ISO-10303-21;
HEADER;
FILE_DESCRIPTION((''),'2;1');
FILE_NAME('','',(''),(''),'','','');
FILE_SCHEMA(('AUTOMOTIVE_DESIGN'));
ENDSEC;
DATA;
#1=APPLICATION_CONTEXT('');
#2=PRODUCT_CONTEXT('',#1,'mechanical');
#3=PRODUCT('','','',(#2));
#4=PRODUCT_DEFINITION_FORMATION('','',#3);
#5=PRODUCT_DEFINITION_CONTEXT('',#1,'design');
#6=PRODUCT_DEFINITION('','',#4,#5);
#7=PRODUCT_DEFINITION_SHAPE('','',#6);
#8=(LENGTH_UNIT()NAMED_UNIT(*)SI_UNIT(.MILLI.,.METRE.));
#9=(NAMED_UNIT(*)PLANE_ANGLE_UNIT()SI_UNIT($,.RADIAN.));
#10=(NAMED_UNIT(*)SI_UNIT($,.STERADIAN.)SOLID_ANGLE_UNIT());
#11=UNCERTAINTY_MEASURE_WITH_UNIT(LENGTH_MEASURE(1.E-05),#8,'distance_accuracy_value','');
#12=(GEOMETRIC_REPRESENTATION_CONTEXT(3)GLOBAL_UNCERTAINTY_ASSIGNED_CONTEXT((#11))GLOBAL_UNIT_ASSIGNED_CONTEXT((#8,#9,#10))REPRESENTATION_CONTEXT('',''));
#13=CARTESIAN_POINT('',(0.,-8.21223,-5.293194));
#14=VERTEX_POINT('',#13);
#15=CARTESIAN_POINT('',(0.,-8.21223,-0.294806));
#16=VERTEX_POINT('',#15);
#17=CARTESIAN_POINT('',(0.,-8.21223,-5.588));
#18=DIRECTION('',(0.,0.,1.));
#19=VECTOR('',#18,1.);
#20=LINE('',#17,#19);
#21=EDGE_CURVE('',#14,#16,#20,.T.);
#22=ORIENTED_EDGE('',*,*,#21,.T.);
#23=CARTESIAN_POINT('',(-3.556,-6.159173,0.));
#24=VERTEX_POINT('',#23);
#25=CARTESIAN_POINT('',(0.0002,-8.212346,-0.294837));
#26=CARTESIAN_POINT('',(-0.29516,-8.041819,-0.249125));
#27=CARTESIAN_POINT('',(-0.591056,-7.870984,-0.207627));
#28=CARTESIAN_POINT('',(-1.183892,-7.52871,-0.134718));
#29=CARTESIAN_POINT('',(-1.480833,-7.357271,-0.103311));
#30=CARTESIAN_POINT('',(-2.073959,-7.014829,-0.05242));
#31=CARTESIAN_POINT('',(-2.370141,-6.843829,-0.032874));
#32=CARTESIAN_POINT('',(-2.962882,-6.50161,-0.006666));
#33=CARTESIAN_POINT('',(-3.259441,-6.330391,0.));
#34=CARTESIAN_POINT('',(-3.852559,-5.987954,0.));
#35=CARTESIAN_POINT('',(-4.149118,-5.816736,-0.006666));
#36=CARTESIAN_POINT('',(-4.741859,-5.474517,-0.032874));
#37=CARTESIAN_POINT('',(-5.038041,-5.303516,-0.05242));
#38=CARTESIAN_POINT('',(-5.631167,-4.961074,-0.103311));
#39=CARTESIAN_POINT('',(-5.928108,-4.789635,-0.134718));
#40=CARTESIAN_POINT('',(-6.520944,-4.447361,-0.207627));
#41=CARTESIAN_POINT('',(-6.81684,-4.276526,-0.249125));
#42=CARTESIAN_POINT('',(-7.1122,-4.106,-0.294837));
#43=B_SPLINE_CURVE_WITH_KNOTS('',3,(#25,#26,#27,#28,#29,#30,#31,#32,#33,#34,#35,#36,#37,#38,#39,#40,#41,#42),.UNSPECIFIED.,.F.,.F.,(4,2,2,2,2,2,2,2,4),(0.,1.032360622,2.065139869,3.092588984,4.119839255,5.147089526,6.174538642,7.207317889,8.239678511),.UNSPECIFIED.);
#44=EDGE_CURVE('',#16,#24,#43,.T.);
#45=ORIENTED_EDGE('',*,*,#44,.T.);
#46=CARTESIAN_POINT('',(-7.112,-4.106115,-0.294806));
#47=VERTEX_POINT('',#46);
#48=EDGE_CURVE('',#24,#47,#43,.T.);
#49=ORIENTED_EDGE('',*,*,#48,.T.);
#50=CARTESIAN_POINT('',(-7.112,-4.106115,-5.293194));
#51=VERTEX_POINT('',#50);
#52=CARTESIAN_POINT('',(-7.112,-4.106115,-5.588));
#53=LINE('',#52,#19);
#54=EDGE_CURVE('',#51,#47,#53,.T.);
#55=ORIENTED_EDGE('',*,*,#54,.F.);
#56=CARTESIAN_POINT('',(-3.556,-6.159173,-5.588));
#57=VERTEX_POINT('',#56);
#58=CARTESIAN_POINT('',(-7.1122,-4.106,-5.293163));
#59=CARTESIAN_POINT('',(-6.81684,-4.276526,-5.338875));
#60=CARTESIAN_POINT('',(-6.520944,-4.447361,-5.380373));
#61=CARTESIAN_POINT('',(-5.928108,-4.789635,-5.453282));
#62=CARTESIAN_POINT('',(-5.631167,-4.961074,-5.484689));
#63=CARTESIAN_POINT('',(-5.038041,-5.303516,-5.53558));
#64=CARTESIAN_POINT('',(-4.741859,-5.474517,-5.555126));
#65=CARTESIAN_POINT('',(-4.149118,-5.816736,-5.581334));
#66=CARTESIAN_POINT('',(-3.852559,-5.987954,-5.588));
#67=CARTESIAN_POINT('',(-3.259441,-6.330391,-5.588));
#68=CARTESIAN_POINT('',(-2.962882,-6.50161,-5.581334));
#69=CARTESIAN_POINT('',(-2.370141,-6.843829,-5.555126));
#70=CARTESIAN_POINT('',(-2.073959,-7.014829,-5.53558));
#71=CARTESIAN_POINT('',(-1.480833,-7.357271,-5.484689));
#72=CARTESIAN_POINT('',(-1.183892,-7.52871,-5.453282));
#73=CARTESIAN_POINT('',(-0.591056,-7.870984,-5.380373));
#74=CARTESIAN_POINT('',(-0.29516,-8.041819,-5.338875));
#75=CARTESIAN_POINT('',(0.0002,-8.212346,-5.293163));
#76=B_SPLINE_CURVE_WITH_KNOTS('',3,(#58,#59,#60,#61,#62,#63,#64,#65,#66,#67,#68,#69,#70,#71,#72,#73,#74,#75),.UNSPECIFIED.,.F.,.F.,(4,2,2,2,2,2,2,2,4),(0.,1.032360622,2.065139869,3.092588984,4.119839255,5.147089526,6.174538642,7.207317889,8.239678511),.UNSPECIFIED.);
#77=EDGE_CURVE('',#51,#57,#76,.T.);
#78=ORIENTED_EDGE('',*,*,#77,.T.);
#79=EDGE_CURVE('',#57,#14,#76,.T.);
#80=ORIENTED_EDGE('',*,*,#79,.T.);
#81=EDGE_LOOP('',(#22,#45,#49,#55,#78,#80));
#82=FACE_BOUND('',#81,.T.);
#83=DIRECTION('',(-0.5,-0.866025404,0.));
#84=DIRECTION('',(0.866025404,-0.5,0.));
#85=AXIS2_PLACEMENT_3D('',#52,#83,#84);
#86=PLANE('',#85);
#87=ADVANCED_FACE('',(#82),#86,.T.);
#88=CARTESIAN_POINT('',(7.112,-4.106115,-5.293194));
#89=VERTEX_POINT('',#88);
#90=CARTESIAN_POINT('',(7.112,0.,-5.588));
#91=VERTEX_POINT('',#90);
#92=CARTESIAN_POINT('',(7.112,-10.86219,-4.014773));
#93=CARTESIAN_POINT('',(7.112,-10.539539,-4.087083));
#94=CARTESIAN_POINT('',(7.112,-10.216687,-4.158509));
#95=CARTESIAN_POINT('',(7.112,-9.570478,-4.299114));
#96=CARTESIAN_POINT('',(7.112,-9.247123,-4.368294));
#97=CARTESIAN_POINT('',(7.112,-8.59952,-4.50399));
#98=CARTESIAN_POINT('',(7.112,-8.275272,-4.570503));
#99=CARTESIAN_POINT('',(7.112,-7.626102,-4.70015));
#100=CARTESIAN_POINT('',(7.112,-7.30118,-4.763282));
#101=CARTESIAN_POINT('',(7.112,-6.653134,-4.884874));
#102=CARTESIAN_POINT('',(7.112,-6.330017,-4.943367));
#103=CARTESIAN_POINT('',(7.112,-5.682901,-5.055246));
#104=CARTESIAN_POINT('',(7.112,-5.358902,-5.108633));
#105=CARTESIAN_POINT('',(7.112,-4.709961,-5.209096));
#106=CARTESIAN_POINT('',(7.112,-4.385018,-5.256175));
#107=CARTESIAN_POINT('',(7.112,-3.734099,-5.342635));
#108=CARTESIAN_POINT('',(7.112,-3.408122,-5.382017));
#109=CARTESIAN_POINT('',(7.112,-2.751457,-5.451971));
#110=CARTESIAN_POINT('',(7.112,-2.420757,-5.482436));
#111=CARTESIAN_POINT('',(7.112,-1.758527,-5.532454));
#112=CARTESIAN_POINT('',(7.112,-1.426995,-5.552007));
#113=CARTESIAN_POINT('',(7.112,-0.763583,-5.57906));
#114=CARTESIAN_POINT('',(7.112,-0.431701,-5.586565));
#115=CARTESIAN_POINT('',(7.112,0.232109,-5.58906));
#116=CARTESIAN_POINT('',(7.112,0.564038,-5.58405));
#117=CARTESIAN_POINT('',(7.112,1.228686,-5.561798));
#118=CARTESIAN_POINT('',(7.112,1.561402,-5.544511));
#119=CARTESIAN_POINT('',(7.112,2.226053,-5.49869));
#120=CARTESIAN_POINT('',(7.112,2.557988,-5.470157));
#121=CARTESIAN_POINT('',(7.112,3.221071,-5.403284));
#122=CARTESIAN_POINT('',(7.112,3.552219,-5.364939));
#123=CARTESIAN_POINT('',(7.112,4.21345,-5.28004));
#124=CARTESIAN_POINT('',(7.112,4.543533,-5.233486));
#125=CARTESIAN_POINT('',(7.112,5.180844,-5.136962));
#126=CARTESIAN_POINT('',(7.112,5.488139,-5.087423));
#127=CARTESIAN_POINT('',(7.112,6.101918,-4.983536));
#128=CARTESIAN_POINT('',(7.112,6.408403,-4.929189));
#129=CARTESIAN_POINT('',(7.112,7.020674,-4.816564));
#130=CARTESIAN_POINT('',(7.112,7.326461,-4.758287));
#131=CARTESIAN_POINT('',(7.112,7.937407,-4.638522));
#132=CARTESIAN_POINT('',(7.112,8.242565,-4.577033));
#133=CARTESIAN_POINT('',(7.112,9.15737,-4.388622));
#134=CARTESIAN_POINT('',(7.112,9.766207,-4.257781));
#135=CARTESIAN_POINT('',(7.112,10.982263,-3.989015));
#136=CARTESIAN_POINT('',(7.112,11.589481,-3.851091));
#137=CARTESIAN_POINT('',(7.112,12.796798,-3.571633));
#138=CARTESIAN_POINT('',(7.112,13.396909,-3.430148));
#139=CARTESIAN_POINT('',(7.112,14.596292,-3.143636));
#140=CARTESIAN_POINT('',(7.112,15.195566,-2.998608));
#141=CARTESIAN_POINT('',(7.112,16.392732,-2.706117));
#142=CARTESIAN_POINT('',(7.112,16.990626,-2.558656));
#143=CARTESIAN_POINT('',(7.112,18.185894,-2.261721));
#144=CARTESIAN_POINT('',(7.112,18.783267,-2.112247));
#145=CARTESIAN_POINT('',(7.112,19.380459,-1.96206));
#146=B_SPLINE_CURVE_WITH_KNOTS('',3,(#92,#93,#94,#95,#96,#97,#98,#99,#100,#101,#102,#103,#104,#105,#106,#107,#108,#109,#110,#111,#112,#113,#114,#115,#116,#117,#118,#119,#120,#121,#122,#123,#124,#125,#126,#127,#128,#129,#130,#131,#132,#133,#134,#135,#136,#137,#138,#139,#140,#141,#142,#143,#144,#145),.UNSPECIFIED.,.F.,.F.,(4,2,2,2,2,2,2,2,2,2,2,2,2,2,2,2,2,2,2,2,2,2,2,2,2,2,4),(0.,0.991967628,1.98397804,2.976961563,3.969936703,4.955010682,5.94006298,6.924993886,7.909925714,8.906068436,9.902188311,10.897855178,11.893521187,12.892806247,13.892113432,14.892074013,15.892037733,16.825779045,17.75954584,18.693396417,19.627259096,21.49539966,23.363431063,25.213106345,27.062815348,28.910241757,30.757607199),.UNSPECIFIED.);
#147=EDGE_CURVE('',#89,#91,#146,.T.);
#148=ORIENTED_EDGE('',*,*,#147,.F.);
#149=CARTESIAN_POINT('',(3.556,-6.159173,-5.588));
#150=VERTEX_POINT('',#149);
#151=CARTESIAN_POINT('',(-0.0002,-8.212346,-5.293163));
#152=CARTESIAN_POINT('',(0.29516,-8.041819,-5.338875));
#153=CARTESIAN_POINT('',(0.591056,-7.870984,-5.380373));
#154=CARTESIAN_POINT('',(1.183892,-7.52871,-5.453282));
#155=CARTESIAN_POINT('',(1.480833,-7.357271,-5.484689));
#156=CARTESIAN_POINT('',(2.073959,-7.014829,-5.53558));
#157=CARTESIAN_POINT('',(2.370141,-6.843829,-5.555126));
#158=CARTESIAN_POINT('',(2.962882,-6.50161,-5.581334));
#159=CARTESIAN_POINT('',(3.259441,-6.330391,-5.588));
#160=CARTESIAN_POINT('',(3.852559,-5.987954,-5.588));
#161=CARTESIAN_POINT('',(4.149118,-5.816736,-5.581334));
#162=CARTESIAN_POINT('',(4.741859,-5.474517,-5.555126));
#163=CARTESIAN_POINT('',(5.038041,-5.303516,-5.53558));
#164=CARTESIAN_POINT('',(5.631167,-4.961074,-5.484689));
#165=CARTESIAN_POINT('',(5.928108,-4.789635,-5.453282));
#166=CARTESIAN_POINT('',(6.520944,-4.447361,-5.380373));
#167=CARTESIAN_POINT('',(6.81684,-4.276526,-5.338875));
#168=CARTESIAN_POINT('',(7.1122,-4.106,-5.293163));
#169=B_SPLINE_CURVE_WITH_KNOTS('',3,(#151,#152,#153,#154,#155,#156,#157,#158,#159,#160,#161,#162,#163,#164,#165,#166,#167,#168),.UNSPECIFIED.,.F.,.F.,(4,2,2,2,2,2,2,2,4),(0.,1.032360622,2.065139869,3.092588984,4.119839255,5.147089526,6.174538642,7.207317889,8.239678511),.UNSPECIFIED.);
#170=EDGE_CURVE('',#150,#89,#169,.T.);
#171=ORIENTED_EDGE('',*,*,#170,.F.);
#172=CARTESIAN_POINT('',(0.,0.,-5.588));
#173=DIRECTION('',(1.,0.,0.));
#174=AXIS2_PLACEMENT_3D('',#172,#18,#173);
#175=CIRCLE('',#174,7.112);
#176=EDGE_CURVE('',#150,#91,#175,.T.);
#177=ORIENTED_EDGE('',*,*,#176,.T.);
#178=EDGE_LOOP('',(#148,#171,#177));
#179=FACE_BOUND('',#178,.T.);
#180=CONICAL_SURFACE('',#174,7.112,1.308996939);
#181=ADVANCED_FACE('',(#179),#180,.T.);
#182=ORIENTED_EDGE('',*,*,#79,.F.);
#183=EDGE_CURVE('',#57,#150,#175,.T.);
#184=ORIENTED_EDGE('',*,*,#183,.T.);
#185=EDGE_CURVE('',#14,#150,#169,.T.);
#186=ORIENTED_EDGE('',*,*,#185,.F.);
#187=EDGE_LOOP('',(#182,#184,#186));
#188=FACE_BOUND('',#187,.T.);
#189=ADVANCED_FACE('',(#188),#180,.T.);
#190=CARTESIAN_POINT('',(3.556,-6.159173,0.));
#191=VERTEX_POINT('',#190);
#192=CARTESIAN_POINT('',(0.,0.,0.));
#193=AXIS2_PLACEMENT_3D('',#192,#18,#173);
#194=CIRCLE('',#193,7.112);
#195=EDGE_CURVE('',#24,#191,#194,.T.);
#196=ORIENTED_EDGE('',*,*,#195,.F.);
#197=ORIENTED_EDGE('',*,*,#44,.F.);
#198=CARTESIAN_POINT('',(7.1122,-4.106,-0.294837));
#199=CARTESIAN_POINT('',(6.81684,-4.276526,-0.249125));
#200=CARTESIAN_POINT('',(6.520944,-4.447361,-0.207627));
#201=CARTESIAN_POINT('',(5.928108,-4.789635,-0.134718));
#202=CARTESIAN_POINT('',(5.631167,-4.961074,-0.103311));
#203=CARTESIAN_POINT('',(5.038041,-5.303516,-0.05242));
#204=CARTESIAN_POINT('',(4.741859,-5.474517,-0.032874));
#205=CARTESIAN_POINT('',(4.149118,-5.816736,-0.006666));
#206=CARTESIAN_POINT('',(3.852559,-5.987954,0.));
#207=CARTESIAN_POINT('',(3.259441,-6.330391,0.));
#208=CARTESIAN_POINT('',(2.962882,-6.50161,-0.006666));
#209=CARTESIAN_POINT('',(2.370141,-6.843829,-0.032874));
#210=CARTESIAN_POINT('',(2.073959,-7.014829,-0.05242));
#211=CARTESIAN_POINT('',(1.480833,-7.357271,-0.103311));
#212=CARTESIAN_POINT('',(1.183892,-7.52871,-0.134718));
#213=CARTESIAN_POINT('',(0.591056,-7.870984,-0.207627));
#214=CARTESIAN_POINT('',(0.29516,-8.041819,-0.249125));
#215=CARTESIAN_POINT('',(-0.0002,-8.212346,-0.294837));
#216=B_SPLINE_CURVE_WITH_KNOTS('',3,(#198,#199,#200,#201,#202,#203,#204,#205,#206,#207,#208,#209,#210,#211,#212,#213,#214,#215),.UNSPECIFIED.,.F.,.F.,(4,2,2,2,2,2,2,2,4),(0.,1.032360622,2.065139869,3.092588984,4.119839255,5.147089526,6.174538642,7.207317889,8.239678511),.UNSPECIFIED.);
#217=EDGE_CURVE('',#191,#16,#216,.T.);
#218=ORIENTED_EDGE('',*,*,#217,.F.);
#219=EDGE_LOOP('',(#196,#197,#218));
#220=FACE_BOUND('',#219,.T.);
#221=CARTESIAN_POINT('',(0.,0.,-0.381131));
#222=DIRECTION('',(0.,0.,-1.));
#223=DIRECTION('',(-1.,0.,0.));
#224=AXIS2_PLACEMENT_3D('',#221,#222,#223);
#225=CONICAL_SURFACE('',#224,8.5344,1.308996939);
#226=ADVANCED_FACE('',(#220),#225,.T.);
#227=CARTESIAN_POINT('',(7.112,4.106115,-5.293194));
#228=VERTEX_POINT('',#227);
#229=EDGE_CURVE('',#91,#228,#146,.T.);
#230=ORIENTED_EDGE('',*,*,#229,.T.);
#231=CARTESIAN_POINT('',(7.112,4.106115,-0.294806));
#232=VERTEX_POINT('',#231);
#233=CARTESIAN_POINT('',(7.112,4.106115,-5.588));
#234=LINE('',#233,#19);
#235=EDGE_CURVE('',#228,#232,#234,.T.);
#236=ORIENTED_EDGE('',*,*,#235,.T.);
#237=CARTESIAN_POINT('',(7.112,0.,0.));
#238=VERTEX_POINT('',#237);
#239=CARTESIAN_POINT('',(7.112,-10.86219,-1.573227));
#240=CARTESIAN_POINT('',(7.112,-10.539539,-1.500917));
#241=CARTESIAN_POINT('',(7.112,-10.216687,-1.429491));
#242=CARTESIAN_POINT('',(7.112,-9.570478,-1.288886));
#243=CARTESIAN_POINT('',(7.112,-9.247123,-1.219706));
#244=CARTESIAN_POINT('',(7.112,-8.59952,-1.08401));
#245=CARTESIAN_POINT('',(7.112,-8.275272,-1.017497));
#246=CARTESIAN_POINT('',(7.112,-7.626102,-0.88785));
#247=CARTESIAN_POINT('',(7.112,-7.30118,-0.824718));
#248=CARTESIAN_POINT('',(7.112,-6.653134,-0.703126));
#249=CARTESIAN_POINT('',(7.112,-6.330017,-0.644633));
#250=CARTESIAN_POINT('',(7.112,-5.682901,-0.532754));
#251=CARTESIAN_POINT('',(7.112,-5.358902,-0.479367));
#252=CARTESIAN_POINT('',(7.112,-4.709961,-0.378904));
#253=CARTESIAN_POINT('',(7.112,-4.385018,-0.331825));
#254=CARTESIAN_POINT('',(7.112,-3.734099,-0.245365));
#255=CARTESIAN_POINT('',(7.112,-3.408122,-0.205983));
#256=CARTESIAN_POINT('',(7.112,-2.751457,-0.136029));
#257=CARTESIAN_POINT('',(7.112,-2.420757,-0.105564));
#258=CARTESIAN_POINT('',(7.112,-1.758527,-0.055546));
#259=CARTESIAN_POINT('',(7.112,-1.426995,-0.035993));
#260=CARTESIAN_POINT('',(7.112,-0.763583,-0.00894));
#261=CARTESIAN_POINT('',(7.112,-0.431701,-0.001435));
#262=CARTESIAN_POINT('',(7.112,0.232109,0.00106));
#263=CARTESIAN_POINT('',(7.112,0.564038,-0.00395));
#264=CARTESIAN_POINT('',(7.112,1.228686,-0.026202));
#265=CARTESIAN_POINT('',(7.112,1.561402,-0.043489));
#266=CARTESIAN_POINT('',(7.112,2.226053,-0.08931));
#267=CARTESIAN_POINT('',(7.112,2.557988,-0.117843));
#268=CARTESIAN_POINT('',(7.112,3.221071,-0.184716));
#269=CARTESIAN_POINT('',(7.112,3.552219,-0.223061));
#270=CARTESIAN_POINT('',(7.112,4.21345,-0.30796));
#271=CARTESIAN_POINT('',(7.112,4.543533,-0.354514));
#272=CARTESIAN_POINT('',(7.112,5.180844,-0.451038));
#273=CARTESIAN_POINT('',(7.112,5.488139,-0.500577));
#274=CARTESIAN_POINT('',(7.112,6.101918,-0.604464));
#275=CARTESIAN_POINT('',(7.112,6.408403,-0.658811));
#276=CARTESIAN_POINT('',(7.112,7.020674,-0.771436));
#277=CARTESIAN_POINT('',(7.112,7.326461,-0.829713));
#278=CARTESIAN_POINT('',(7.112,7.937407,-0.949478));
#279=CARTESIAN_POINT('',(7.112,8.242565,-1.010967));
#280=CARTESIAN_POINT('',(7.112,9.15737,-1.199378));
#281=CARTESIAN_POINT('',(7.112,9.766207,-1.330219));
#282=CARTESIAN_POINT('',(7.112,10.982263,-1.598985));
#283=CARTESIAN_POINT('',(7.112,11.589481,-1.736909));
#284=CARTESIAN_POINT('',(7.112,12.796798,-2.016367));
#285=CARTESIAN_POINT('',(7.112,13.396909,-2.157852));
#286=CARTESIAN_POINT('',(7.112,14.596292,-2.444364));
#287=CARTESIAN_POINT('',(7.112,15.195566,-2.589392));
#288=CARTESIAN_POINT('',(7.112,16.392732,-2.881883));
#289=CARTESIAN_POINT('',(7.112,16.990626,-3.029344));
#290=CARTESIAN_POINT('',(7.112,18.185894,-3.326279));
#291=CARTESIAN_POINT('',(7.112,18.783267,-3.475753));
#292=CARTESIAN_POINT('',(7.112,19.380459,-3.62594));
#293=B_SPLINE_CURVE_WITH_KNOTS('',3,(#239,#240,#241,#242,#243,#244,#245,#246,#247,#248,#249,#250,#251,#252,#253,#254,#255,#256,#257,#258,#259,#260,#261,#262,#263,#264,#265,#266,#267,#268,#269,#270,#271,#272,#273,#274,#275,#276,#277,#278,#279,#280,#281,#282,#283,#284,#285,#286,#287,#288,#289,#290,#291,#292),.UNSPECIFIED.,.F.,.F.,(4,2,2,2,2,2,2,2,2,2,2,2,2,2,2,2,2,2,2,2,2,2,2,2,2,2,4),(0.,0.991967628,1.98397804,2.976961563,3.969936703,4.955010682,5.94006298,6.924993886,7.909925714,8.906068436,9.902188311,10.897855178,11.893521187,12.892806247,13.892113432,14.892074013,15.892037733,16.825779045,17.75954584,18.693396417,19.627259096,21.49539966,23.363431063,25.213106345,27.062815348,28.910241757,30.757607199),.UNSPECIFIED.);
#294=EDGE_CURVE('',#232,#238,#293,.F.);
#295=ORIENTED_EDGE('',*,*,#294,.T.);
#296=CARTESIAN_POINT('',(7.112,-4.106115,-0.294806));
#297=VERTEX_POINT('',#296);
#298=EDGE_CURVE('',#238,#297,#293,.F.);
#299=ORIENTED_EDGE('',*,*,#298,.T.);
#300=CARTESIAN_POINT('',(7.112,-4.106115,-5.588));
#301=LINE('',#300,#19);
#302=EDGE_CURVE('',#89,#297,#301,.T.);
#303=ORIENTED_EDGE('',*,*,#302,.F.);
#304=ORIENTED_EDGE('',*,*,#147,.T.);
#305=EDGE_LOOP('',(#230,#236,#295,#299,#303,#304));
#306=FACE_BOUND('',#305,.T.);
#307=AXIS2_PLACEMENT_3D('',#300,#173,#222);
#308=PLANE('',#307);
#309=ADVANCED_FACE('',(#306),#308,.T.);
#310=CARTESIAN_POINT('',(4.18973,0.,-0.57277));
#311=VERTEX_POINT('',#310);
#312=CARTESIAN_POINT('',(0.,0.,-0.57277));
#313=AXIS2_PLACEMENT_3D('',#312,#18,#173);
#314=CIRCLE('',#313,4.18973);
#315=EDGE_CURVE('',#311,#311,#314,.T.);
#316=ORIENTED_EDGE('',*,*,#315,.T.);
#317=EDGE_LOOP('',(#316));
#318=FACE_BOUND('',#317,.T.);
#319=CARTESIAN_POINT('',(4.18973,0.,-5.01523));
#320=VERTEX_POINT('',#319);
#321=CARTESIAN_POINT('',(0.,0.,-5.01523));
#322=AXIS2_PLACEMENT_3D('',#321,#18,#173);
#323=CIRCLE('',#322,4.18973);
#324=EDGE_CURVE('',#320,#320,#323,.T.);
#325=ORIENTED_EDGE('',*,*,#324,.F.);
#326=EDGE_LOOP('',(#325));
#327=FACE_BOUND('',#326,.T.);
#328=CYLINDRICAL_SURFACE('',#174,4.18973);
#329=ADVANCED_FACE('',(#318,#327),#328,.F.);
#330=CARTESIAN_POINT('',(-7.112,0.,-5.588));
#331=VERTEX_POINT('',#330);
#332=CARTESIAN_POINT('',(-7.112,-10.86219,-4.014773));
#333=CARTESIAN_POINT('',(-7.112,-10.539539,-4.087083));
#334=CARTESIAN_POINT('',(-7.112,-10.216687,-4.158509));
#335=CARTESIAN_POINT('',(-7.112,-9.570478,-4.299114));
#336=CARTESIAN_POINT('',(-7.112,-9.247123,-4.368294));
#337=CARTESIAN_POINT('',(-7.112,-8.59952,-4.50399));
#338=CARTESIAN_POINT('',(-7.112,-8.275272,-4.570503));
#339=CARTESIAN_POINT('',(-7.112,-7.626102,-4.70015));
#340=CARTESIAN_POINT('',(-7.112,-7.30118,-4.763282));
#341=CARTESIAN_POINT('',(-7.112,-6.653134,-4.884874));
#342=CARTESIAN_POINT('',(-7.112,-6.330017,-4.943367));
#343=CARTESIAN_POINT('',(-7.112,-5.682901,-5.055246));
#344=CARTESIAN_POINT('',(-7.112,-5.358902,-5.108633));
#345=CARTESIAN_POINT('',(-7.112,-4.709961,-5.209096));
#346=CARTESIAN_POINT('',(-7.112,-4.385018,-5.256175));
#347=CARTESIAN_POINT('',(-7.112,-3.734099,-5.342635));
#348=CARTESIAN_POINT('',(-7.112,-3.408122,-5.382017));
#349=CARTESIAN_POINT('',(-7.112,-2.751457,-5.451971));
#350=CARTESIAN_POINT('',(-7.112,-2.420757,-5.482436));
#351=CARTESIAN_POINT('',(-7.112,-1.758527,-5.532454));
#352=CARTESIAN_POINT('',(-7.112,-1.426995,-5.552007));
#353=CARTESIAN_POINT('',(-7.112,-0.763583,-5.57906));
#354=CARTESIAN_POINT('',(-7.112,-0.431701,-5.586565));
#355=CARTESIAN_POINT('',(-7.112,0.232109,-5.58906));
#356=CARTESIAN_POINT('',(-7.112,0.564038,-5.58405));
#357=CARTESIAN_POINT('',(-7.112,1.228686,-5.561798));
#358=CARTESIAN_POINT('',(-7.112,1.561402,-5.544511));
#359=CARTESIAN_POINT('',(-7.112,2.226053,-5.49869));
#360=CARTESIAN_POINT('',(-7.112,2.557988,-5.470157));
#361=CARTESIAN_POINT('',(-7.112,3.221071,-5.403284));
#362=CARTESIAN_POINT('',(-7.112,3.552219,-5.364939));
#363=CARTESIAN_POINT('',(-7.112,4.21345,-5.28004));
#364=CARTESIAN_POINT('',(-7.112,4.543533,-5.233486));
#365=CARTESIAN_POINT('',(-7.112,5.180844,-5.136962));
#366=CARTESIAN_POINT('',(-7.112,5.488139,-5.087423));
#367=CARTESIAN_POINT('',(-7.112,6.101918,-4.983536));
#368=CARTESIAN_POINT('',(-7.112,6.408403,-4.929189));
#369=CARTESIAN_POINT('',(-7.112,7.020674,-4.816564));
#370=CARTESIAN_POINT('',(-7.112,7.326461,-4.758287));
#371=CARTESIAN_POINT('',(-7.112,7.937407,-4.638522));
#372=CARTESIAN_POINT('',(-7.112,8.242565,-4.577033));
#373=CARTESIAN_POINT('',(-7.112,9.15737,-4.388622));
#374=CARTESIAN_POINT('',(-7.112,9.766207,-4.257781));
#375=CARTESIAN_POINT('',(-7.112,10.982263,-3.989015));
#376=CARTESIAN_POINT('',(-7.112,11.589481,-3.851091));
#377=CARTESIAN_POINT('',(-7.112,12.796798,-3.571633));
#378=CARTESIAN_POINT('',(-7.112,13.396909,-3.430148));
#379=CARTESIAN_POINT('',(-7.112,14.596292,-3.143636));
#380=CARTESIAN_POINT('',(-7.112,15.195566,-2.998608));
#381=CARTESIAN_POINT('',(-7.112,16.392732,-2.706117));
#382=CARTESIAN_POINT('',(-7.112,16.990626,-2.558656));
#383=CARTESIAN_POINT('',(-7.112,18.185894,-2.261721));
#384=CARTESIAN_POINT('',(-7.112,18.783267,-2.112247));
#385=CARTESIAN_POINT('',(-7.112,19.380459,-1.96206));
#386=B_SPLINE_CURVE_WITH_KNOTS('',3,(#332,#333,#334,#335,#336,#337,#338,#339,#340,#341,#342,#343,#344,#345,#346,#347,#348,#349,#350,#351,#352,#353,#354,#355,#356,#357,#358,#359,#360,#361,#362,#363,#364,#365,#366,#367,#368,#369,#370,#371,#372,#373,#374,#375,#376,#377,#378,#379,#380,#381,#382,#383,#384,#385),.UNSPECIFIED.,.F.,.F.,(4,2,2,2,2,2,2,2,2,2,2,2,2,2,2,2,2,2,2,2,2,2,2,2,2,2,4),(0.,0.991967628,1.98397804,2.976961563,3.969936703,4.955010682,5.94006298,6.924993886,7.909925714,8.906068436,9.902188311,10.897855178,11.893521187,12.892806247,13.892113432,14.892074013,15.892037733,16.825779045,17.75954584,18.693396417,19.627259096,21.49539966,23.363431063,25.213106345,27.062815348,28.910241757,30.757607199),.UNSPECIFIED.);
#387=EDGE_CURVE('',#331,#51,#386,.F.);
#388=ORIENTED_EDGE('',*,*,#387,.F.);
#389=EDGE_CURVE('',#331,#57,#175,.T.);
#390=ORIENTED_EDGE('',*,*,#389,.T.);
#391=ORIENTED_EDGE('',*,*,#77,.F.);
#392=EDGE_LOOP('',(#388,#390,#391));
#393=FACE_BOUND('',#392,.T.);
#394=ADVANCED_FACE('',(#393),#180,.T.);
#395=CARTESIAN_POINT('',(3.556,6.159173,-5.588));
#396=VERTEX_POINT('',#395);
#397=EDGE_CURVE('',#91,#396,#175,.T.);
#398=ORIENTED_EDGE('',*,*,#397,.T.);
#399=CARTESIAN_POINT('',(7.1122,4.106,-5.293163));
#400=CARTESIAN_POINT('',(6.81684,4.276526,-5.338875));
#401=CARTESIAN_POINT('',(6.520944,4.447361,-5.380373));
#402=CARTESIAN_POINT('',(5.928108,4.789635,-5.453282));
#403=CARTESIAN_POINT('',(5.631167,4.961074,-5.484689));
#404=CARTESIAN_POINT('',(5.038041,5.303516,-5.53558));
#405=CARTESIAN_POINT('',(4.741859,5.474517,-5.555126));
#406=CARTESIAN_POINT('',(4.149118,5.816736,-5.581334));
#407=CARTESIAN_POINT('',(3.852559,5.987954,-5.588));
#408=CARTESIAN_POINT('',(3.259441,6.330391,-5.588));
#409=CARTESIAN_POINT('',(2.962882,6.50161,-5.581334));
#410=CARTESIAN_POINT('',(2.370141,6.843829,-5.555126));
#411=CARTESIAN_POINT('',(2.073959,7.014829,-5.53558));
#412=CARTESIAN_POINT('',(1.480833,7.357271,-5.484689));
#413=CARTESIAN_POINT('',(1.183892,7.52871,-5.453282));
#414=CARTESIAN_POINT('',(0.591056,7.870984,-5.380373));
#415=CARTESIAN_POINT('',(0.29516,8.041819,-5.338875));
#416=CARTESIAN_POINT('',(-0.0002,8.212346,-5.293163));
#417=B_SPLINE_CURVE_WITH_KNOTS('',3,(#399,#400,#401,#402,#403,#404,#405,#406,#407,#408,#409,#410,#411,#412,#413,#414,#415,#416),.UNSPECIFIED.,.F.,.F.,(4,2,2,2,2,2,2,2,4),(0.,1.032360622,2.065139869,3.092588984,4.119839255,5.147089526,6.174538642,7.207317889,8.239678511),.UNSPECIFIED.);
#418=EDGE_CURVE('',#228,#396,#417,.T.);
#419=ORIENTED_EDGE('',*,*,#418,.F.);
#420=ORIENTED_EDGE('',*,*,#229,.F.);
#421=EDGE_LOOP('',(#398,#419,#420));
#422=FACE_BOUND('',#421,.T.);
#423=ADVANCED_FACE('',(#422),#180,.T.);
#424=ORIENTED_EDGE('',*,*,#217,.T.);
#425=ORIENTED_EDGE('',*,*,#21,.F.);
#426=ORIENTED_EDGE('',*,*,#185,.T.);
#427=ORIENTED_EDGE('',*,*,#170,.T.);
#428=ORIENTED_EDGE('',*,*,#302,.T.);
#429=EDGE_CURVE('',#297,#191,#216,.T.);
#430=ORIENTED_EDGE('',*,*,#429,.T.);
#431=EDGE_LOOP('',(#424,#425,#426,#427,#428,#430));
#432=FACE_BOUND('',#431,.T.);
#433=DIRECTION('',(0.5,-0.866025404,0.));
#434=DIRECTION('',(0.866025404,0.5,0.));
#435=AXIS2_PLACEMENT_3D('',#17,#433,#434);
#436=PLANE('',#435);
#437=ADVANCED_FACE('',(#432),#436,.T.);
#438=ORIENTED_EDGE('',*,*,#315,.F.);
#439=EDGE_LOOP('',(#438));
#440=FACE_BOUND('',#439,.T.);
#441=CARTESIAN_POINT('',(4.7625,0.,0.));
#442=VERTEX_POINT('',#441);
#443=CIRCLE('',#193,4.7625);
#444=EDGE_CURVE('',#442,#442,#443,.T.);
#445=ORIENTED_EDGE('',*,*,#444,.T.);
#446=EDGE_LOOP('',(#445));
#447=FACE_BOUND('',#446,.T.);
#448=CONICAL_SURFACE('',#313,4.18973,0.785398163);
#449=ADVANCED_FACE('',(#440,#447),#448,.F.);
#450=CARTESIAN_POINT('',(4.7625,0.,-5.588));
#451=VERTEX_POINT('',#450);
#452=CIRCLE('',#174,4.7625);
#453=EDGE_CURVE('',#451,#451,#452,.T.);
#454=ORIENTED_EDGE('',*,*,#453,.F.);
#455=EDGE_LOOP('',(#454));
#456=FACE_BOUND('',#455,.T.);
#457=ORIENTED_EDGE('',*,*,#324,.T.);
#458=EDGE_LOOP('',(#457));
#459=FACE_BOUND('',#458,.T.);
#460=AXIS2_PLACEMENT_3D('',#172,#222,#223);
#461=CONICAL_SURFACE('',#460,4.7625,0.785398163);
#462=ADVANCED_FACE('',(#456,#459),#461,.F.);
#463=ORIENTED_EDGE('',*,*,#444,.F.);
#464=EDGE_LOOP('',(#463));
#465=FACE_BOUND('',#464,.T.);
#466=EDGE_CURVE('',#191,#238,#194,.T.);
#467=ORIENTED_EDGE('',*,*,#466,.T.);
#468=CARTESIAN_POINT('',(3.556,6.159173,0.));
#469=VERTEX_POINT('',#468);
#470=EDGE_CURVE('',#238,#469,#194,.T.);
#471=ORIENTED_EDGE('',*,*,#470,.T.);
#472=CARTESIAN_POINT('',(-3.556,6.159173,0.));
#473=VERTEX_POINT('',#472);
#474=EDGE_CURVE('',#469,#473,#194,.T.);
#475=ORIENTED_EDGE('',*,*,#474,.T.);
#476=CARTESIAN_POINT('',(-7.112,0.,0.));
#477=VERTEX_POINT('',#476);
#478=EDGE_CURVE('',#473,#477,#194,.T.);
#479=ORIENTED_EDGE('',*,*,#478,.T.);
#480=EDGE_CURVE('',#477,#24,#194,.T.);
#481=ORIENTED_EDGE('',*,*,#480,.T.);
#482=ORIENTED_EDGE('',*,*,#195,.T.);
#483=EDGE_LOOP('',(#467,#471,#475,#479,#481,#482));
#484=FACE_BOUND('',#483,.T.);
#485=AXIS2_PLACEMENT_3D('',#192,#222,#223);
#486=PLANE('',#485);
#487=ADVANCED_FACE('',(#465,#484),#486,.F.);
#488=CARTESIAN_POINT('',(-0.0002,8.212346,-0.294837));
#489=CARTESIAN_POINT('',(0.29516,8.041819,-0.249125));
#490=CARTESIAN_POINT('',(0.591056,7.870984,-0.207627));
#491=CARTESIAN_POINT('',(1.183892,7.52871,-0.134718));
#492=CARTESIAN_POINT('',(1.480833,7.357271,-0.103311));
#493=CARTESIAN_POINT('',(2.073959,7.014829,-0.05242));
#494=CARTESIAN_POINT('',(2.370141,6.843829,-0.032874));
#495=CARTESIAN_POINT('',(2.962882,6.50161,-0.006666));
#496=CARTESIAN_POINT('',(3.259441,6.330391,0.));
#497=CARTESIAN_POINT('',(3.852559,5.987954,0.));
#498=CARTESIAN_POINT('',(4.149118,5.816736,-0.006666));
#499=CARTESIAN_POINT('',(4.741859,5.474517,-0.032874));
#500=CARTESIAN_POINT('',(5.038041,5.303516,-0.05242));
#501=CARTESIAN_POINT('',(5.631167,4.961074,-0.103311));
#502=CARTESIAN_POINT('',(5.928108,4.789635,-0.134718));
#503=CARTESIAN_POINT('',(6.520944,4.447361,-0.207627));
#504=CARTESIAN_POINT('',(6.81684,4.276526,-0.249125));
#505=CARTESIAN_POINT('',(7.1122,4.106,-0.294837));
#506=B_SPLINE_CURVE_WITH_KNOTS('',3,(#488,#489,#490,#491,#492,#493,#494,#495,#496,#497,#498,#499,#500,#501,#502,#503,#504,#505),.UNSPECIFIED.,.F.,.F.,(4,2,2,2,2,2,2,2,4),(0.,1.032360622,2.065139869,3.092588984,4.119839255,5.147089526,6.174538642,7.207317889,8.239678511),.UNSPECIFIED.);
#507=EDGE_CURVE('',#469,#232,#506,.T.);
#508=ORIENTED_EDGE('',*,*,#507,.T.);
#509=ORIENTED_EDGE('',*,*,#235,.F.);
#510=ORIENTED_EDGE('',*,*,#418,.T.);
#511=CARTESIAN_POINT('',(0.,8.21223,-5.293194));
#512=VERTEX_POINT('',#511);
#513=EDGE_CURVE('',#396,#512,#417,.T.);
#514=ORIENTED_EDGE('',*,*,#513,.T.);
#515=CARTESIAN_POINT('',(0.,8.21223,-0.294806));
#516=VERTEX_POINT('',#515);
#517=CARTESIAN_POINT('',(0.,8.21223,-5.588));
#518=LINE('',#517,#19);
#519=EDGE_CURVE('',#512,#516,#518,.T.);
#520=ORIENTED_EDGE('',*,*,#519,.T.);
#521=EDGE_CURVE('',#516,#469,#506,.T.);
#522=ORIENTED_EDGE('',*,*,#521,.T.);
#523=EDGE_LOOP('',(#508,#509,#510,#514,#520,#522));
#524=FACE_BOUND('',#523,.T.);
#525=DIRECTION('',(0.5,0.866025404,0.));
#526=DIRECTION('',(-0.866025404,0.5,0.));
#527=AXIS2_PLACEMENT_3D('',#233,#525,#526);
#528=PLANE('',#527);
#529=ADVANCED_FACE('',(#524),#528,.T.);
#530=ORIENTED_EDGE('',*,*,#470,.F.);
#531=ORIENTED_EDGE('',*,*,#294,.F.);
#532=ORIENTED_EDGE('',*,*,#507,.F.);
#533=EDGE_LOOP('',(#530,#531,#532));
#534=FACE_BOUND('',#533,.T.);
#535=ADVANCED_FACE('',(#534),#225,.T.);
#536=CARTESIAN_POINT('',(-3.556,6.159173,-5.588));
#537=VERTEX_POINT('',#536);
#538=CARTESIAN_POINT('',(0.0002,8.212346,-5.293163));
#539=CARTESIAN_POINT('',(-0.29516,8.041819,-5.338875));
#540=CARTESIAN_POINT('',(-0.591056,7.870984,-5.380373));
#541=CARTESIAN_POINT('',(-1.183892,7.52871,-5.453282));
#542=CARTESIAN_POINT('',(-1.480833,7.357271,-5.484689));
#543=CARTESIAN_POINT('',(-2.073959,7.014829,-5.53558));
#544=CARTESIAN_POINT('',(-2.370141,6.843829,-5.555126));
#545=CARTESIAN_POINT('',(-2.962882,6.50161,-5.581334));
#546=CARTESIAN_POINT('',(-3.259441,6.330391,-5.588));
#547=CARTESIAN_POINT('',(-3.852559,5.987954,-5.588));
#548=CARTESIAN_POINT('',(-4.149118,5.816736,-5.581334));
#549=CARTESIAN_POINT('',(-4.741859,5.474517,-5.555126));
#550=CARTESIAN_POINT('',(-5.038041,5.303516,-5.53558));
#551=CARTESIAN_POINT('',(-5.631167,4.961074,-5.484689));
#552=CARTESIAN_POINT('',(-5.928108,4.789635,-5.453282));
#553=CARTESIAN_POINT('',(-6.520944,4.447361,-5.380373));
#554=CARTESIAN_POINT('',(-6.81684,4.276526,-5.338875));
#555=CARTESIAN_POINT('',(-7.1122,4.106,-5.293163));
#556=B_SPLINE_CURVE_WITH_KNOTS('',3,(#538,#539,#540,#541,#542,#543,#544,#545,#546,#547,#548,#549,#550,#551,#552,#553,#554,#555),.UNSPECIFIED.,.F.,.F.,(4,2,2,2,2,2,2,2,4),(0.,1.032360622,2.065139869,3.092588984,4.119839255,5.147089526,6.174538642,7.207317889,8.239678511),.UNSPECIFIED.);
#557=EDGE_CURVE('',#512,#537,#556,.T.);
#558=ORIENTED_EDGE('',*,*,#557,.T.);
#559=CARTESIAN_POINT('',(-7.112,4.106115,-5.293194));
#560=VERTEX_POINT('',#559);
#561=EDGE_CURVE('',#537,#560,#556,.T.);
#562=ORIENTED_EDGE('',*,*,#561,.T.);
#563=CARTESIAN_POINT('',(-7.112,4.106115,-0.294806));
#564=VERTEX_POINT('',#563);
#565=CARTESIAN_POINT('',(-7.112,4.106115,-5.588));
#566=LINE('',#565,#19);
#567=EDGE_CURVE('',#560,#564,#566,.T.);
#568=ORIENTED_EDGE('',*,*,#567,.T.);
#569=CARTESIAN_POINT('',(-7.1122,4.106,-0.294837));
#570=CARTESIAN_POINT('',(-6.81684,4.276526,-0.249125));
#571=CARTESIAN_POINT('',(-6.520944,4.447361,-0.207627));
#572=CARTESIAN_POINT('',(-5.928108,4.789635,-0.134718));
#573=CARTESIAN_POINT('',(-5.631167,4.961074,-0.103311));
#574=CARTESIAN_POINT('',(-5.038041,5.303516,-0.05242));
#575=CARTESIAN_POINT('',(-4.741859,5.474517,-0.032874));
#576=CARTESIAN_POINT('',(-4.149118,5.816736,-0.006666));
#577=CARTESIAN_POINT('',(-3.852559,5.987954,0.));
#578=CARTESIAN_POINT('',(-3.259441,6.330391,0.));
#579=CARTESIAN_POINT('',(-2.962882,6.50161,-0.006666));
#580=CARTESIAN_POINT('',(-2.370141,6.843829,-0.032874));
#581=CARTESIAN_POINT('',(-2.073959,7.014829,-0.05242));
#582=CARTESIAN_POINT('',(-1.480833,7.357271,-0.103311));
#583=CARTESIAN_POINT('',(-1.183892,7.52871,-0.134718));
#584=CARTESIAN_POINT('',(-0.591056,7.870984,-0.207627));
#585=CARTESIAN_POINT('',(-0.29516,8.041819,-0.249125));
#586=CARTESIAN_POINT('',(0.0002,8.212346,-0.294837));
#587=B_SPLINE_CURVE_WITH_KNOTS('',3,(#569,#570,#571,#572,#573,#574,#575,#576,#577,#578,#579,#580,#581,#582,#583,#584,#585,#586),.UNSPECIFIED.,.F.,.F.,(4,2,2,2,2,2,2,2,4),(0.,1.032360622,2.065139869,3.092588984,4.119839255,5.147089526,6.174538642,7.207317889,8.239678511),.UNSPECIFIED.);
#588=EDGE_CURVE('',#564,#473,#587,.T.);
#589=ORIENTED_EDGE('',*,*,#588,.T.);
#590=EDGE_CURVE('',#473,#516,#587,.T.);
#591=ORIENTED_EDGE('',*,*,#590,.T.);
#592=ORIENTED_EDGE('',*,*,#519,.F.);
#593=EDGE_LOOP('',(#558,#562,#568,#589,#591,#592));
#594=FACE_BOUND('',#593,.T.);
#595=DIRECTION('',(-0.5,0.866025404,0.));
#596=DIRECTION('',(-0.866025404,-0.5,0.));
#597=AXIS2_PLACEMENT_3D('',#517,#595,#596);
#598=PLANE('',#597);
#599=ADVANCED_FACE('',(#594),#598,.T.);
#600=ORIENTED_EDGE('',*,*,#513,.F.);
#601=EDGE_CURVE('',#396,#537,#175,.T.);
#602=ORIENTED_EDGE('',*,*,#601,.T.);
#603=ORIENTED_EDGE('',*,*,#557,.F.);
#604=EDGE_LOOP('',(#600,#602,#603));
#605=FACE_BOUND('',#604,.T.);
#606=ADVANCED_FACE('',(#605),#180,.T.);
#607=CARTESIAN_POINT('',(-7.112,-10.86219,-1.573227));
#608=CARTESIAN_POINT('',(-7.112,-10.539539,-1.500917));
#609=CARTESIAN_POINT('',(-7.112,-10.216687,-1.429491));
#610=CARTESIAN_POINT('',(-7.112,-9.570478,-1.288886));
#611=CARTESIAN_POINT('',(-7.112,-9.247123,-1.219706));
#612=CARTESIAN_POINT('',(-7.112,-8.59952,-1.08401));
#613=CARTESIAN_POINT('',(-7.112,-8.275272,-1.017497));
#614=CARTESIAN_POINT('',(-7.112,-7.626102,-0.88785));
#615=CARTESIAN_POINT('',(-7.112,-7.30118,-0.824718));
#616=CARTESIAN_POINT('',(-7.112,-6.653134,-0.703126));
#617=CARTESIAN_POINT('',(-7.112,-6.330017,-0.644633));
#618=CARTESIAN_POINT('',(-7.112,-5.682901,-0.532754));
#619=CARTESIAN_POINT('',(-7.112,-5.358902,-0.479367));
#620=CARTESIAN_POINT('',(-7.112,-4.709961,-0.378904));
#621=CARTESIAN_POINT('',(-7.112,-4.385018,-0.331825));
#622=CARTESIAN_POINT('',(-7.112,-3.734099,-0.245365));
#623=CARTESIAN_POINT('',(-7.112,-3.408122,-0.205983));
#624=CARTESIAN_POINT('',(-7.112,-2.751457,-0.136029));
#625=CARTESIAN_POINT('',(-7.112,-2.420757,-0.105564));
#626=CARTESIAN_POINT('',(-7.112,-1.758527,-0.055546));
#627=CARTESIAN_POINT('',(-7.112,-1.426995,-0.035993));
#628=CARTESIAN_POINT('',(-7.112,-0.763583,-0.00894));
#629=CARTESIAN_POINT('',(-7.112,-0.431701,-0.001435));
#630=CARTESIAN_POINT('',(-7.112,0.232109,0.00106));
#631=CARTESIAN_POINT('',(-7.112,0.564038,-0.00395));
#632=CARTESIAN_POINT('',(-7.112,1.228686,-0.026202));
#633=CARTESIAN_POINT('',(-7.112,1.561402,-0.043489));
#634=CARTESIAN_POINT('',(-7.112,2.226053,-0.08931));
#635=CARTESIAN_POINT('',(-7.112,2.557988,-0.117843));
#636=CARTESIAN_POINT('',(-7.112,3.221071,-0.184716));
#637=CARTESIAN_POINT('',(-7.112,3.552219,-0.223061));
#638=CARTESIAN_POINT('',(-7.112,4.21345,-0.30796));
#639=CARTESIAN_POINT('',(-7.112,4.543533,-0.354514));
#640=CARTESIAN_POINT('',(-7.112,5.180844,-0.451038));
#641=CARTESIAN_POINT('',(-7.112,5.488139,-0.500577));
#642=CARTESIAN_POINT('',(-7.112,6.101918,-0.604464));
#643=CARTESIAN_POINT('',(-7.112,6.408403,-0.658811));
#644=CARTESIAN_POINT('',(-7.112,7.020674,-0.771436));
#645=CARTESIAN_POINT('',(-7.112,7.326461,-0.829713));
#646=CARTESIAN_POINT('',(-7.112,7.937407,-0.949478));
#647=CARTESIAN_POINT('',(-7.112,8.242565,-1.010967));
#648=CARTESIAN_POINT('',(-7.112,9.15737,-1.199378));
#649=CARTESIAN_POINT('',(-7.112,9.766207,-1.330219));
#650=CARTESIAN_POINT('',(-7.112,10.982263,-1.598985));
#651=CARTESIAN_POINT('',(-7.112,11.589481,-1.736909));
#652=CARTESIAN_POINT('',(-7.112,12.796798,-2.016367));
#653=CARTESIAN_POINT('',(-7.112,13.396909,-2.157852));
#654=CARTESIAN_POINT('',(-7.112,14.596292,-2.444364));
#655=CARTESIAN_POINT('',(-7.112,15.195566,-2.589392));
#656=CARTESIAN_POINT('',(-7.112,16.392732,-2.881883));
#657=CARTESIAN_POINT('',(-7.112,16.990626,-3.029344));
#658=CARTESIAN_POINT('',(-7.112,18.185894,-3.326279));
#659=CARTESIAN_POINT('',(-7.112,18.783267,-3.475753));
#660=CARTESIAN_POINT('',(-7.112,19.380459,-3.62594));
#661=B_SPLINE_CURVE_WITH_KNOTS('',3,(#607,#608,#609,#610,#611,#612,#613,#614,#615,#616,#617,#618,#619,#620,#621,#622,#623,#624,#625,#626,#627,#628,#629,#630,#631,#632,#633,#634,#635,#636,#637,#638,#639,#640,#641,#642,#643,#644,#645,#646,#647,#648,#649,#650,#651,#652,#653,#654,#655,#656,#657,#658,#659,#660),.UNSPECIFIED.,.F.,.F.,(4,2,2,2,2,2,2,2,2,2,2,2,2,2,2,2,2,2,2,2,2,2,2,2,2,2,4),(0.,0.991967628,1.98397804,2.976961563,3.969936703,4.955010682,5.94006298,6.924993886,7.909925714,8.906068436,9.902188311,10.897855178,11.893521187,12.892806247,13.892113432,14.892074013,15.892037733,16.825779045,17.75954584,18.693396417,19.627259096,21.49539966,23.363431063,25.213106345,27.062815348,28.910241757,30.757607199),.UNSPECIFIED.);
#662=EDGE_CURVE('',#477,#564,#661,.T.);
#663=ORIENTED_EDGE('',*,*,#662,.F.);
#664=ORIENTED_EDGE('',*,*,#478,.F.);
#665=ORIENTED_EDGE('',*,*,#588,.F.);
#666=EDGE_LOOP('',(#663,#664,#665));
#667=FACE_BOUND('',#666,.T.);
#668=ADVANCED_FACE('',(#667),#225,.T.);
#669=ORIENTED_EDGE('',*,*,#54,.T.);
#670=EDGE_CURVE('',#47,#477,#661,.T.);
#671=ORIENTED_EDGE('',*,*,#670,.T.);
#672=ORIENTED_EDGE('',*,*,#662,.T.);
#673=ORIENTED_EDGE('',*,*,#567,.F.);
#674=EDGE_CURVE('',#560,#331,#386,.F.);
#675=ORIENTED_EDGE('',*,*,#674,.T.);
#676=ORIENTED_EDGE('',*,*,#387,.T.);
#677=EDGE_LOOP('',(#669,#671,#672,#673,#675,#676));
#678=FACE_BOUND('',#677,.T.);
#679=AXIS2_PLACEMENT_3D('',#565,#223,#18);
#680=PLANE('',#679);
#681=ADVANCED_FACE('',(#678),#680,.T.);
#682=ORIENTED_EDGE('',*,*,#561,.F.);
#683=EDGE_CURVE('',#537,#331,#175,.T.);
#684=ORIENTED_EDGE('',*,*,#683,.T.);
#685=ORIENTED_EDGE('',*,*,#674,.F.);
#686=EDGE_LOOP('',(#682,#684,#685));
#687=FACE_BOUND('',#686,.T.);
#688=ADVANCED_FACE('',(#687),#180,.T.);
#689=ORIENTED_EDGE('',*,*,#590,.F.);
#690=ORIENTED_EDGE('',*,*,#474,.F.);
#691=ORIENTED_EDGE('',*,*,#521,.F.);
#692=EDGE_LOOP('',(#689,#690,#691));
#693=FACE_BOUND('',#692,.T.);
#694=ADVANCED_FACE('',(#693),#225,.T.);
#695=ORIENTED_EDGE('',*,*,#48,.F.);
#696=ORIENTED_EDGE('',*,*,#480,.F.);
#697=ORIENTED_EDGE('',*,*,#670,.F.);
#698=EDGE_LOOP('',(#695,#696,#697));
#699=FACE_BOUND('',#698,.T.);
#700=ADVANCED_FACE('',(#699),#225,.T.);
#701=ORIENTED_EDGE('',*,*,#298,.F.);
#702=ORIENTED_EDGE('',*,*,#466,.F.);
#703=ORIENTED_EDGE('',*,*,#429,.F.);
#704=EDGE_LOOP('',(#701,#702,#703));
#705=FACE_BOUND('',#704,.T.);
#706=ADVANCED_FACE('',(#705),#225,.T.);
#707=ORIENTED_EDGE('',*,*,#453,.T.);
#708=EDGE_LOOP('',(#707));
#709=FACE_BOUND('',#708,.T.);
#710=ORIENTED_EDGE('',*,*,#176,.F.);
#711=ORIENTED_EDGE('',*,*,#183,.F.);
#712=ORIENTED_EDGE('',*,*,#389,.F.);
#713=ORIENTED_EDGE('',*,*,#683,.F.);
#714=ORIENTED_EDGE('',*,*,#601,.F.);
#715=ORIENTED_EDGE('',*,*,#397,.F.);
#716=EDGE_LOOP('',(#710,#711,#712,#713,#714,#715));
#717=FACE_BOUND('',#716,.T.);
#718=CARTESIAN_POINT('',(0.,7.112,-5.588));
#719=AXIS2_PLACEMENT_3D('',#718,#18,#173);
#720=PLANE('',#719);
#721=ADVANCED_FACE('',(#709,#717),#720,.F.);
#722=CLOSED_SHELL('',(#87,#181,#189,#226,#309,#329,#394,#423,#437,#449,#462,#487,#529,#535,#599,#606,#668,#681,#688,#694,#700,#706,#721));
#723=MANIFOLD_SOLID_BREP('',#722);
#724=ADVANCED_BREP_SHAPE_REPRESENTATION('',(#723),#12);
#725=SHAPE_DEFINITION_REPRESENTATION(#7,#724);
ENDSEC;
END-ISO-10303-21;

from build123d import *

# Parameters (mm, degrees)
SKETCH2_W          = 28.448
SKETCH2_H          = 28.448
CUT_EXTRUDE1_DEPTH = 5.588


with BuildPart() as part:
    # Sketch1 → Revolve1 (revolve)
    with BuildSketch(Plane(origin=(0, 0, 0), x_dir=(0, 0, -1), z_dir=(1, 0, 0))):
        Polygon((0, 0), (0, 7.112), (0.381130931, 8.5344), (5.206869069, 8.5344), (5.588, 7.112), (5.588, 0), align=None)
    revolve(axis=Axis((0, 0, -5.588), (0, 0, 1)))

    # Sketch2 → Cut-Extrude1 (cut)
    with BuildSketch(Plane.XY):
        Rectangle(SKETCH2_W, SKETCH2_H)
        Polygon((-7.112, 4.106115114), (-7.112, -4.106115114), (0, -8.212230229), (7.112, -4.106115114), (7.112, 4.106115114), (0, 8.212230229), align=None, mode=Mode.SUBTRACT)
    extrude(amount=-CUT_EXTRUDE1_DEPTH, mode=Mode.SUBTRACT)

    # Sketch3 → Cut-Revolve1 (revolve, cut)
    with BuildSketch(Plane(origin=(0, 0, 0), x_dir=(0, 0, -1), z_dir=(1, 0, 0))):
        Polygon((0, 0), (0, 4.7625), (0.57277, 4.18973), (5.01523, 4.18973), (5.588, 4.7625), (5.588, 0), align=None)
    revolve(axis=Axis((0, 0, -5.588), (0, 0, 1)), mode=Mode.SUBTRACT)


solid = part.part
